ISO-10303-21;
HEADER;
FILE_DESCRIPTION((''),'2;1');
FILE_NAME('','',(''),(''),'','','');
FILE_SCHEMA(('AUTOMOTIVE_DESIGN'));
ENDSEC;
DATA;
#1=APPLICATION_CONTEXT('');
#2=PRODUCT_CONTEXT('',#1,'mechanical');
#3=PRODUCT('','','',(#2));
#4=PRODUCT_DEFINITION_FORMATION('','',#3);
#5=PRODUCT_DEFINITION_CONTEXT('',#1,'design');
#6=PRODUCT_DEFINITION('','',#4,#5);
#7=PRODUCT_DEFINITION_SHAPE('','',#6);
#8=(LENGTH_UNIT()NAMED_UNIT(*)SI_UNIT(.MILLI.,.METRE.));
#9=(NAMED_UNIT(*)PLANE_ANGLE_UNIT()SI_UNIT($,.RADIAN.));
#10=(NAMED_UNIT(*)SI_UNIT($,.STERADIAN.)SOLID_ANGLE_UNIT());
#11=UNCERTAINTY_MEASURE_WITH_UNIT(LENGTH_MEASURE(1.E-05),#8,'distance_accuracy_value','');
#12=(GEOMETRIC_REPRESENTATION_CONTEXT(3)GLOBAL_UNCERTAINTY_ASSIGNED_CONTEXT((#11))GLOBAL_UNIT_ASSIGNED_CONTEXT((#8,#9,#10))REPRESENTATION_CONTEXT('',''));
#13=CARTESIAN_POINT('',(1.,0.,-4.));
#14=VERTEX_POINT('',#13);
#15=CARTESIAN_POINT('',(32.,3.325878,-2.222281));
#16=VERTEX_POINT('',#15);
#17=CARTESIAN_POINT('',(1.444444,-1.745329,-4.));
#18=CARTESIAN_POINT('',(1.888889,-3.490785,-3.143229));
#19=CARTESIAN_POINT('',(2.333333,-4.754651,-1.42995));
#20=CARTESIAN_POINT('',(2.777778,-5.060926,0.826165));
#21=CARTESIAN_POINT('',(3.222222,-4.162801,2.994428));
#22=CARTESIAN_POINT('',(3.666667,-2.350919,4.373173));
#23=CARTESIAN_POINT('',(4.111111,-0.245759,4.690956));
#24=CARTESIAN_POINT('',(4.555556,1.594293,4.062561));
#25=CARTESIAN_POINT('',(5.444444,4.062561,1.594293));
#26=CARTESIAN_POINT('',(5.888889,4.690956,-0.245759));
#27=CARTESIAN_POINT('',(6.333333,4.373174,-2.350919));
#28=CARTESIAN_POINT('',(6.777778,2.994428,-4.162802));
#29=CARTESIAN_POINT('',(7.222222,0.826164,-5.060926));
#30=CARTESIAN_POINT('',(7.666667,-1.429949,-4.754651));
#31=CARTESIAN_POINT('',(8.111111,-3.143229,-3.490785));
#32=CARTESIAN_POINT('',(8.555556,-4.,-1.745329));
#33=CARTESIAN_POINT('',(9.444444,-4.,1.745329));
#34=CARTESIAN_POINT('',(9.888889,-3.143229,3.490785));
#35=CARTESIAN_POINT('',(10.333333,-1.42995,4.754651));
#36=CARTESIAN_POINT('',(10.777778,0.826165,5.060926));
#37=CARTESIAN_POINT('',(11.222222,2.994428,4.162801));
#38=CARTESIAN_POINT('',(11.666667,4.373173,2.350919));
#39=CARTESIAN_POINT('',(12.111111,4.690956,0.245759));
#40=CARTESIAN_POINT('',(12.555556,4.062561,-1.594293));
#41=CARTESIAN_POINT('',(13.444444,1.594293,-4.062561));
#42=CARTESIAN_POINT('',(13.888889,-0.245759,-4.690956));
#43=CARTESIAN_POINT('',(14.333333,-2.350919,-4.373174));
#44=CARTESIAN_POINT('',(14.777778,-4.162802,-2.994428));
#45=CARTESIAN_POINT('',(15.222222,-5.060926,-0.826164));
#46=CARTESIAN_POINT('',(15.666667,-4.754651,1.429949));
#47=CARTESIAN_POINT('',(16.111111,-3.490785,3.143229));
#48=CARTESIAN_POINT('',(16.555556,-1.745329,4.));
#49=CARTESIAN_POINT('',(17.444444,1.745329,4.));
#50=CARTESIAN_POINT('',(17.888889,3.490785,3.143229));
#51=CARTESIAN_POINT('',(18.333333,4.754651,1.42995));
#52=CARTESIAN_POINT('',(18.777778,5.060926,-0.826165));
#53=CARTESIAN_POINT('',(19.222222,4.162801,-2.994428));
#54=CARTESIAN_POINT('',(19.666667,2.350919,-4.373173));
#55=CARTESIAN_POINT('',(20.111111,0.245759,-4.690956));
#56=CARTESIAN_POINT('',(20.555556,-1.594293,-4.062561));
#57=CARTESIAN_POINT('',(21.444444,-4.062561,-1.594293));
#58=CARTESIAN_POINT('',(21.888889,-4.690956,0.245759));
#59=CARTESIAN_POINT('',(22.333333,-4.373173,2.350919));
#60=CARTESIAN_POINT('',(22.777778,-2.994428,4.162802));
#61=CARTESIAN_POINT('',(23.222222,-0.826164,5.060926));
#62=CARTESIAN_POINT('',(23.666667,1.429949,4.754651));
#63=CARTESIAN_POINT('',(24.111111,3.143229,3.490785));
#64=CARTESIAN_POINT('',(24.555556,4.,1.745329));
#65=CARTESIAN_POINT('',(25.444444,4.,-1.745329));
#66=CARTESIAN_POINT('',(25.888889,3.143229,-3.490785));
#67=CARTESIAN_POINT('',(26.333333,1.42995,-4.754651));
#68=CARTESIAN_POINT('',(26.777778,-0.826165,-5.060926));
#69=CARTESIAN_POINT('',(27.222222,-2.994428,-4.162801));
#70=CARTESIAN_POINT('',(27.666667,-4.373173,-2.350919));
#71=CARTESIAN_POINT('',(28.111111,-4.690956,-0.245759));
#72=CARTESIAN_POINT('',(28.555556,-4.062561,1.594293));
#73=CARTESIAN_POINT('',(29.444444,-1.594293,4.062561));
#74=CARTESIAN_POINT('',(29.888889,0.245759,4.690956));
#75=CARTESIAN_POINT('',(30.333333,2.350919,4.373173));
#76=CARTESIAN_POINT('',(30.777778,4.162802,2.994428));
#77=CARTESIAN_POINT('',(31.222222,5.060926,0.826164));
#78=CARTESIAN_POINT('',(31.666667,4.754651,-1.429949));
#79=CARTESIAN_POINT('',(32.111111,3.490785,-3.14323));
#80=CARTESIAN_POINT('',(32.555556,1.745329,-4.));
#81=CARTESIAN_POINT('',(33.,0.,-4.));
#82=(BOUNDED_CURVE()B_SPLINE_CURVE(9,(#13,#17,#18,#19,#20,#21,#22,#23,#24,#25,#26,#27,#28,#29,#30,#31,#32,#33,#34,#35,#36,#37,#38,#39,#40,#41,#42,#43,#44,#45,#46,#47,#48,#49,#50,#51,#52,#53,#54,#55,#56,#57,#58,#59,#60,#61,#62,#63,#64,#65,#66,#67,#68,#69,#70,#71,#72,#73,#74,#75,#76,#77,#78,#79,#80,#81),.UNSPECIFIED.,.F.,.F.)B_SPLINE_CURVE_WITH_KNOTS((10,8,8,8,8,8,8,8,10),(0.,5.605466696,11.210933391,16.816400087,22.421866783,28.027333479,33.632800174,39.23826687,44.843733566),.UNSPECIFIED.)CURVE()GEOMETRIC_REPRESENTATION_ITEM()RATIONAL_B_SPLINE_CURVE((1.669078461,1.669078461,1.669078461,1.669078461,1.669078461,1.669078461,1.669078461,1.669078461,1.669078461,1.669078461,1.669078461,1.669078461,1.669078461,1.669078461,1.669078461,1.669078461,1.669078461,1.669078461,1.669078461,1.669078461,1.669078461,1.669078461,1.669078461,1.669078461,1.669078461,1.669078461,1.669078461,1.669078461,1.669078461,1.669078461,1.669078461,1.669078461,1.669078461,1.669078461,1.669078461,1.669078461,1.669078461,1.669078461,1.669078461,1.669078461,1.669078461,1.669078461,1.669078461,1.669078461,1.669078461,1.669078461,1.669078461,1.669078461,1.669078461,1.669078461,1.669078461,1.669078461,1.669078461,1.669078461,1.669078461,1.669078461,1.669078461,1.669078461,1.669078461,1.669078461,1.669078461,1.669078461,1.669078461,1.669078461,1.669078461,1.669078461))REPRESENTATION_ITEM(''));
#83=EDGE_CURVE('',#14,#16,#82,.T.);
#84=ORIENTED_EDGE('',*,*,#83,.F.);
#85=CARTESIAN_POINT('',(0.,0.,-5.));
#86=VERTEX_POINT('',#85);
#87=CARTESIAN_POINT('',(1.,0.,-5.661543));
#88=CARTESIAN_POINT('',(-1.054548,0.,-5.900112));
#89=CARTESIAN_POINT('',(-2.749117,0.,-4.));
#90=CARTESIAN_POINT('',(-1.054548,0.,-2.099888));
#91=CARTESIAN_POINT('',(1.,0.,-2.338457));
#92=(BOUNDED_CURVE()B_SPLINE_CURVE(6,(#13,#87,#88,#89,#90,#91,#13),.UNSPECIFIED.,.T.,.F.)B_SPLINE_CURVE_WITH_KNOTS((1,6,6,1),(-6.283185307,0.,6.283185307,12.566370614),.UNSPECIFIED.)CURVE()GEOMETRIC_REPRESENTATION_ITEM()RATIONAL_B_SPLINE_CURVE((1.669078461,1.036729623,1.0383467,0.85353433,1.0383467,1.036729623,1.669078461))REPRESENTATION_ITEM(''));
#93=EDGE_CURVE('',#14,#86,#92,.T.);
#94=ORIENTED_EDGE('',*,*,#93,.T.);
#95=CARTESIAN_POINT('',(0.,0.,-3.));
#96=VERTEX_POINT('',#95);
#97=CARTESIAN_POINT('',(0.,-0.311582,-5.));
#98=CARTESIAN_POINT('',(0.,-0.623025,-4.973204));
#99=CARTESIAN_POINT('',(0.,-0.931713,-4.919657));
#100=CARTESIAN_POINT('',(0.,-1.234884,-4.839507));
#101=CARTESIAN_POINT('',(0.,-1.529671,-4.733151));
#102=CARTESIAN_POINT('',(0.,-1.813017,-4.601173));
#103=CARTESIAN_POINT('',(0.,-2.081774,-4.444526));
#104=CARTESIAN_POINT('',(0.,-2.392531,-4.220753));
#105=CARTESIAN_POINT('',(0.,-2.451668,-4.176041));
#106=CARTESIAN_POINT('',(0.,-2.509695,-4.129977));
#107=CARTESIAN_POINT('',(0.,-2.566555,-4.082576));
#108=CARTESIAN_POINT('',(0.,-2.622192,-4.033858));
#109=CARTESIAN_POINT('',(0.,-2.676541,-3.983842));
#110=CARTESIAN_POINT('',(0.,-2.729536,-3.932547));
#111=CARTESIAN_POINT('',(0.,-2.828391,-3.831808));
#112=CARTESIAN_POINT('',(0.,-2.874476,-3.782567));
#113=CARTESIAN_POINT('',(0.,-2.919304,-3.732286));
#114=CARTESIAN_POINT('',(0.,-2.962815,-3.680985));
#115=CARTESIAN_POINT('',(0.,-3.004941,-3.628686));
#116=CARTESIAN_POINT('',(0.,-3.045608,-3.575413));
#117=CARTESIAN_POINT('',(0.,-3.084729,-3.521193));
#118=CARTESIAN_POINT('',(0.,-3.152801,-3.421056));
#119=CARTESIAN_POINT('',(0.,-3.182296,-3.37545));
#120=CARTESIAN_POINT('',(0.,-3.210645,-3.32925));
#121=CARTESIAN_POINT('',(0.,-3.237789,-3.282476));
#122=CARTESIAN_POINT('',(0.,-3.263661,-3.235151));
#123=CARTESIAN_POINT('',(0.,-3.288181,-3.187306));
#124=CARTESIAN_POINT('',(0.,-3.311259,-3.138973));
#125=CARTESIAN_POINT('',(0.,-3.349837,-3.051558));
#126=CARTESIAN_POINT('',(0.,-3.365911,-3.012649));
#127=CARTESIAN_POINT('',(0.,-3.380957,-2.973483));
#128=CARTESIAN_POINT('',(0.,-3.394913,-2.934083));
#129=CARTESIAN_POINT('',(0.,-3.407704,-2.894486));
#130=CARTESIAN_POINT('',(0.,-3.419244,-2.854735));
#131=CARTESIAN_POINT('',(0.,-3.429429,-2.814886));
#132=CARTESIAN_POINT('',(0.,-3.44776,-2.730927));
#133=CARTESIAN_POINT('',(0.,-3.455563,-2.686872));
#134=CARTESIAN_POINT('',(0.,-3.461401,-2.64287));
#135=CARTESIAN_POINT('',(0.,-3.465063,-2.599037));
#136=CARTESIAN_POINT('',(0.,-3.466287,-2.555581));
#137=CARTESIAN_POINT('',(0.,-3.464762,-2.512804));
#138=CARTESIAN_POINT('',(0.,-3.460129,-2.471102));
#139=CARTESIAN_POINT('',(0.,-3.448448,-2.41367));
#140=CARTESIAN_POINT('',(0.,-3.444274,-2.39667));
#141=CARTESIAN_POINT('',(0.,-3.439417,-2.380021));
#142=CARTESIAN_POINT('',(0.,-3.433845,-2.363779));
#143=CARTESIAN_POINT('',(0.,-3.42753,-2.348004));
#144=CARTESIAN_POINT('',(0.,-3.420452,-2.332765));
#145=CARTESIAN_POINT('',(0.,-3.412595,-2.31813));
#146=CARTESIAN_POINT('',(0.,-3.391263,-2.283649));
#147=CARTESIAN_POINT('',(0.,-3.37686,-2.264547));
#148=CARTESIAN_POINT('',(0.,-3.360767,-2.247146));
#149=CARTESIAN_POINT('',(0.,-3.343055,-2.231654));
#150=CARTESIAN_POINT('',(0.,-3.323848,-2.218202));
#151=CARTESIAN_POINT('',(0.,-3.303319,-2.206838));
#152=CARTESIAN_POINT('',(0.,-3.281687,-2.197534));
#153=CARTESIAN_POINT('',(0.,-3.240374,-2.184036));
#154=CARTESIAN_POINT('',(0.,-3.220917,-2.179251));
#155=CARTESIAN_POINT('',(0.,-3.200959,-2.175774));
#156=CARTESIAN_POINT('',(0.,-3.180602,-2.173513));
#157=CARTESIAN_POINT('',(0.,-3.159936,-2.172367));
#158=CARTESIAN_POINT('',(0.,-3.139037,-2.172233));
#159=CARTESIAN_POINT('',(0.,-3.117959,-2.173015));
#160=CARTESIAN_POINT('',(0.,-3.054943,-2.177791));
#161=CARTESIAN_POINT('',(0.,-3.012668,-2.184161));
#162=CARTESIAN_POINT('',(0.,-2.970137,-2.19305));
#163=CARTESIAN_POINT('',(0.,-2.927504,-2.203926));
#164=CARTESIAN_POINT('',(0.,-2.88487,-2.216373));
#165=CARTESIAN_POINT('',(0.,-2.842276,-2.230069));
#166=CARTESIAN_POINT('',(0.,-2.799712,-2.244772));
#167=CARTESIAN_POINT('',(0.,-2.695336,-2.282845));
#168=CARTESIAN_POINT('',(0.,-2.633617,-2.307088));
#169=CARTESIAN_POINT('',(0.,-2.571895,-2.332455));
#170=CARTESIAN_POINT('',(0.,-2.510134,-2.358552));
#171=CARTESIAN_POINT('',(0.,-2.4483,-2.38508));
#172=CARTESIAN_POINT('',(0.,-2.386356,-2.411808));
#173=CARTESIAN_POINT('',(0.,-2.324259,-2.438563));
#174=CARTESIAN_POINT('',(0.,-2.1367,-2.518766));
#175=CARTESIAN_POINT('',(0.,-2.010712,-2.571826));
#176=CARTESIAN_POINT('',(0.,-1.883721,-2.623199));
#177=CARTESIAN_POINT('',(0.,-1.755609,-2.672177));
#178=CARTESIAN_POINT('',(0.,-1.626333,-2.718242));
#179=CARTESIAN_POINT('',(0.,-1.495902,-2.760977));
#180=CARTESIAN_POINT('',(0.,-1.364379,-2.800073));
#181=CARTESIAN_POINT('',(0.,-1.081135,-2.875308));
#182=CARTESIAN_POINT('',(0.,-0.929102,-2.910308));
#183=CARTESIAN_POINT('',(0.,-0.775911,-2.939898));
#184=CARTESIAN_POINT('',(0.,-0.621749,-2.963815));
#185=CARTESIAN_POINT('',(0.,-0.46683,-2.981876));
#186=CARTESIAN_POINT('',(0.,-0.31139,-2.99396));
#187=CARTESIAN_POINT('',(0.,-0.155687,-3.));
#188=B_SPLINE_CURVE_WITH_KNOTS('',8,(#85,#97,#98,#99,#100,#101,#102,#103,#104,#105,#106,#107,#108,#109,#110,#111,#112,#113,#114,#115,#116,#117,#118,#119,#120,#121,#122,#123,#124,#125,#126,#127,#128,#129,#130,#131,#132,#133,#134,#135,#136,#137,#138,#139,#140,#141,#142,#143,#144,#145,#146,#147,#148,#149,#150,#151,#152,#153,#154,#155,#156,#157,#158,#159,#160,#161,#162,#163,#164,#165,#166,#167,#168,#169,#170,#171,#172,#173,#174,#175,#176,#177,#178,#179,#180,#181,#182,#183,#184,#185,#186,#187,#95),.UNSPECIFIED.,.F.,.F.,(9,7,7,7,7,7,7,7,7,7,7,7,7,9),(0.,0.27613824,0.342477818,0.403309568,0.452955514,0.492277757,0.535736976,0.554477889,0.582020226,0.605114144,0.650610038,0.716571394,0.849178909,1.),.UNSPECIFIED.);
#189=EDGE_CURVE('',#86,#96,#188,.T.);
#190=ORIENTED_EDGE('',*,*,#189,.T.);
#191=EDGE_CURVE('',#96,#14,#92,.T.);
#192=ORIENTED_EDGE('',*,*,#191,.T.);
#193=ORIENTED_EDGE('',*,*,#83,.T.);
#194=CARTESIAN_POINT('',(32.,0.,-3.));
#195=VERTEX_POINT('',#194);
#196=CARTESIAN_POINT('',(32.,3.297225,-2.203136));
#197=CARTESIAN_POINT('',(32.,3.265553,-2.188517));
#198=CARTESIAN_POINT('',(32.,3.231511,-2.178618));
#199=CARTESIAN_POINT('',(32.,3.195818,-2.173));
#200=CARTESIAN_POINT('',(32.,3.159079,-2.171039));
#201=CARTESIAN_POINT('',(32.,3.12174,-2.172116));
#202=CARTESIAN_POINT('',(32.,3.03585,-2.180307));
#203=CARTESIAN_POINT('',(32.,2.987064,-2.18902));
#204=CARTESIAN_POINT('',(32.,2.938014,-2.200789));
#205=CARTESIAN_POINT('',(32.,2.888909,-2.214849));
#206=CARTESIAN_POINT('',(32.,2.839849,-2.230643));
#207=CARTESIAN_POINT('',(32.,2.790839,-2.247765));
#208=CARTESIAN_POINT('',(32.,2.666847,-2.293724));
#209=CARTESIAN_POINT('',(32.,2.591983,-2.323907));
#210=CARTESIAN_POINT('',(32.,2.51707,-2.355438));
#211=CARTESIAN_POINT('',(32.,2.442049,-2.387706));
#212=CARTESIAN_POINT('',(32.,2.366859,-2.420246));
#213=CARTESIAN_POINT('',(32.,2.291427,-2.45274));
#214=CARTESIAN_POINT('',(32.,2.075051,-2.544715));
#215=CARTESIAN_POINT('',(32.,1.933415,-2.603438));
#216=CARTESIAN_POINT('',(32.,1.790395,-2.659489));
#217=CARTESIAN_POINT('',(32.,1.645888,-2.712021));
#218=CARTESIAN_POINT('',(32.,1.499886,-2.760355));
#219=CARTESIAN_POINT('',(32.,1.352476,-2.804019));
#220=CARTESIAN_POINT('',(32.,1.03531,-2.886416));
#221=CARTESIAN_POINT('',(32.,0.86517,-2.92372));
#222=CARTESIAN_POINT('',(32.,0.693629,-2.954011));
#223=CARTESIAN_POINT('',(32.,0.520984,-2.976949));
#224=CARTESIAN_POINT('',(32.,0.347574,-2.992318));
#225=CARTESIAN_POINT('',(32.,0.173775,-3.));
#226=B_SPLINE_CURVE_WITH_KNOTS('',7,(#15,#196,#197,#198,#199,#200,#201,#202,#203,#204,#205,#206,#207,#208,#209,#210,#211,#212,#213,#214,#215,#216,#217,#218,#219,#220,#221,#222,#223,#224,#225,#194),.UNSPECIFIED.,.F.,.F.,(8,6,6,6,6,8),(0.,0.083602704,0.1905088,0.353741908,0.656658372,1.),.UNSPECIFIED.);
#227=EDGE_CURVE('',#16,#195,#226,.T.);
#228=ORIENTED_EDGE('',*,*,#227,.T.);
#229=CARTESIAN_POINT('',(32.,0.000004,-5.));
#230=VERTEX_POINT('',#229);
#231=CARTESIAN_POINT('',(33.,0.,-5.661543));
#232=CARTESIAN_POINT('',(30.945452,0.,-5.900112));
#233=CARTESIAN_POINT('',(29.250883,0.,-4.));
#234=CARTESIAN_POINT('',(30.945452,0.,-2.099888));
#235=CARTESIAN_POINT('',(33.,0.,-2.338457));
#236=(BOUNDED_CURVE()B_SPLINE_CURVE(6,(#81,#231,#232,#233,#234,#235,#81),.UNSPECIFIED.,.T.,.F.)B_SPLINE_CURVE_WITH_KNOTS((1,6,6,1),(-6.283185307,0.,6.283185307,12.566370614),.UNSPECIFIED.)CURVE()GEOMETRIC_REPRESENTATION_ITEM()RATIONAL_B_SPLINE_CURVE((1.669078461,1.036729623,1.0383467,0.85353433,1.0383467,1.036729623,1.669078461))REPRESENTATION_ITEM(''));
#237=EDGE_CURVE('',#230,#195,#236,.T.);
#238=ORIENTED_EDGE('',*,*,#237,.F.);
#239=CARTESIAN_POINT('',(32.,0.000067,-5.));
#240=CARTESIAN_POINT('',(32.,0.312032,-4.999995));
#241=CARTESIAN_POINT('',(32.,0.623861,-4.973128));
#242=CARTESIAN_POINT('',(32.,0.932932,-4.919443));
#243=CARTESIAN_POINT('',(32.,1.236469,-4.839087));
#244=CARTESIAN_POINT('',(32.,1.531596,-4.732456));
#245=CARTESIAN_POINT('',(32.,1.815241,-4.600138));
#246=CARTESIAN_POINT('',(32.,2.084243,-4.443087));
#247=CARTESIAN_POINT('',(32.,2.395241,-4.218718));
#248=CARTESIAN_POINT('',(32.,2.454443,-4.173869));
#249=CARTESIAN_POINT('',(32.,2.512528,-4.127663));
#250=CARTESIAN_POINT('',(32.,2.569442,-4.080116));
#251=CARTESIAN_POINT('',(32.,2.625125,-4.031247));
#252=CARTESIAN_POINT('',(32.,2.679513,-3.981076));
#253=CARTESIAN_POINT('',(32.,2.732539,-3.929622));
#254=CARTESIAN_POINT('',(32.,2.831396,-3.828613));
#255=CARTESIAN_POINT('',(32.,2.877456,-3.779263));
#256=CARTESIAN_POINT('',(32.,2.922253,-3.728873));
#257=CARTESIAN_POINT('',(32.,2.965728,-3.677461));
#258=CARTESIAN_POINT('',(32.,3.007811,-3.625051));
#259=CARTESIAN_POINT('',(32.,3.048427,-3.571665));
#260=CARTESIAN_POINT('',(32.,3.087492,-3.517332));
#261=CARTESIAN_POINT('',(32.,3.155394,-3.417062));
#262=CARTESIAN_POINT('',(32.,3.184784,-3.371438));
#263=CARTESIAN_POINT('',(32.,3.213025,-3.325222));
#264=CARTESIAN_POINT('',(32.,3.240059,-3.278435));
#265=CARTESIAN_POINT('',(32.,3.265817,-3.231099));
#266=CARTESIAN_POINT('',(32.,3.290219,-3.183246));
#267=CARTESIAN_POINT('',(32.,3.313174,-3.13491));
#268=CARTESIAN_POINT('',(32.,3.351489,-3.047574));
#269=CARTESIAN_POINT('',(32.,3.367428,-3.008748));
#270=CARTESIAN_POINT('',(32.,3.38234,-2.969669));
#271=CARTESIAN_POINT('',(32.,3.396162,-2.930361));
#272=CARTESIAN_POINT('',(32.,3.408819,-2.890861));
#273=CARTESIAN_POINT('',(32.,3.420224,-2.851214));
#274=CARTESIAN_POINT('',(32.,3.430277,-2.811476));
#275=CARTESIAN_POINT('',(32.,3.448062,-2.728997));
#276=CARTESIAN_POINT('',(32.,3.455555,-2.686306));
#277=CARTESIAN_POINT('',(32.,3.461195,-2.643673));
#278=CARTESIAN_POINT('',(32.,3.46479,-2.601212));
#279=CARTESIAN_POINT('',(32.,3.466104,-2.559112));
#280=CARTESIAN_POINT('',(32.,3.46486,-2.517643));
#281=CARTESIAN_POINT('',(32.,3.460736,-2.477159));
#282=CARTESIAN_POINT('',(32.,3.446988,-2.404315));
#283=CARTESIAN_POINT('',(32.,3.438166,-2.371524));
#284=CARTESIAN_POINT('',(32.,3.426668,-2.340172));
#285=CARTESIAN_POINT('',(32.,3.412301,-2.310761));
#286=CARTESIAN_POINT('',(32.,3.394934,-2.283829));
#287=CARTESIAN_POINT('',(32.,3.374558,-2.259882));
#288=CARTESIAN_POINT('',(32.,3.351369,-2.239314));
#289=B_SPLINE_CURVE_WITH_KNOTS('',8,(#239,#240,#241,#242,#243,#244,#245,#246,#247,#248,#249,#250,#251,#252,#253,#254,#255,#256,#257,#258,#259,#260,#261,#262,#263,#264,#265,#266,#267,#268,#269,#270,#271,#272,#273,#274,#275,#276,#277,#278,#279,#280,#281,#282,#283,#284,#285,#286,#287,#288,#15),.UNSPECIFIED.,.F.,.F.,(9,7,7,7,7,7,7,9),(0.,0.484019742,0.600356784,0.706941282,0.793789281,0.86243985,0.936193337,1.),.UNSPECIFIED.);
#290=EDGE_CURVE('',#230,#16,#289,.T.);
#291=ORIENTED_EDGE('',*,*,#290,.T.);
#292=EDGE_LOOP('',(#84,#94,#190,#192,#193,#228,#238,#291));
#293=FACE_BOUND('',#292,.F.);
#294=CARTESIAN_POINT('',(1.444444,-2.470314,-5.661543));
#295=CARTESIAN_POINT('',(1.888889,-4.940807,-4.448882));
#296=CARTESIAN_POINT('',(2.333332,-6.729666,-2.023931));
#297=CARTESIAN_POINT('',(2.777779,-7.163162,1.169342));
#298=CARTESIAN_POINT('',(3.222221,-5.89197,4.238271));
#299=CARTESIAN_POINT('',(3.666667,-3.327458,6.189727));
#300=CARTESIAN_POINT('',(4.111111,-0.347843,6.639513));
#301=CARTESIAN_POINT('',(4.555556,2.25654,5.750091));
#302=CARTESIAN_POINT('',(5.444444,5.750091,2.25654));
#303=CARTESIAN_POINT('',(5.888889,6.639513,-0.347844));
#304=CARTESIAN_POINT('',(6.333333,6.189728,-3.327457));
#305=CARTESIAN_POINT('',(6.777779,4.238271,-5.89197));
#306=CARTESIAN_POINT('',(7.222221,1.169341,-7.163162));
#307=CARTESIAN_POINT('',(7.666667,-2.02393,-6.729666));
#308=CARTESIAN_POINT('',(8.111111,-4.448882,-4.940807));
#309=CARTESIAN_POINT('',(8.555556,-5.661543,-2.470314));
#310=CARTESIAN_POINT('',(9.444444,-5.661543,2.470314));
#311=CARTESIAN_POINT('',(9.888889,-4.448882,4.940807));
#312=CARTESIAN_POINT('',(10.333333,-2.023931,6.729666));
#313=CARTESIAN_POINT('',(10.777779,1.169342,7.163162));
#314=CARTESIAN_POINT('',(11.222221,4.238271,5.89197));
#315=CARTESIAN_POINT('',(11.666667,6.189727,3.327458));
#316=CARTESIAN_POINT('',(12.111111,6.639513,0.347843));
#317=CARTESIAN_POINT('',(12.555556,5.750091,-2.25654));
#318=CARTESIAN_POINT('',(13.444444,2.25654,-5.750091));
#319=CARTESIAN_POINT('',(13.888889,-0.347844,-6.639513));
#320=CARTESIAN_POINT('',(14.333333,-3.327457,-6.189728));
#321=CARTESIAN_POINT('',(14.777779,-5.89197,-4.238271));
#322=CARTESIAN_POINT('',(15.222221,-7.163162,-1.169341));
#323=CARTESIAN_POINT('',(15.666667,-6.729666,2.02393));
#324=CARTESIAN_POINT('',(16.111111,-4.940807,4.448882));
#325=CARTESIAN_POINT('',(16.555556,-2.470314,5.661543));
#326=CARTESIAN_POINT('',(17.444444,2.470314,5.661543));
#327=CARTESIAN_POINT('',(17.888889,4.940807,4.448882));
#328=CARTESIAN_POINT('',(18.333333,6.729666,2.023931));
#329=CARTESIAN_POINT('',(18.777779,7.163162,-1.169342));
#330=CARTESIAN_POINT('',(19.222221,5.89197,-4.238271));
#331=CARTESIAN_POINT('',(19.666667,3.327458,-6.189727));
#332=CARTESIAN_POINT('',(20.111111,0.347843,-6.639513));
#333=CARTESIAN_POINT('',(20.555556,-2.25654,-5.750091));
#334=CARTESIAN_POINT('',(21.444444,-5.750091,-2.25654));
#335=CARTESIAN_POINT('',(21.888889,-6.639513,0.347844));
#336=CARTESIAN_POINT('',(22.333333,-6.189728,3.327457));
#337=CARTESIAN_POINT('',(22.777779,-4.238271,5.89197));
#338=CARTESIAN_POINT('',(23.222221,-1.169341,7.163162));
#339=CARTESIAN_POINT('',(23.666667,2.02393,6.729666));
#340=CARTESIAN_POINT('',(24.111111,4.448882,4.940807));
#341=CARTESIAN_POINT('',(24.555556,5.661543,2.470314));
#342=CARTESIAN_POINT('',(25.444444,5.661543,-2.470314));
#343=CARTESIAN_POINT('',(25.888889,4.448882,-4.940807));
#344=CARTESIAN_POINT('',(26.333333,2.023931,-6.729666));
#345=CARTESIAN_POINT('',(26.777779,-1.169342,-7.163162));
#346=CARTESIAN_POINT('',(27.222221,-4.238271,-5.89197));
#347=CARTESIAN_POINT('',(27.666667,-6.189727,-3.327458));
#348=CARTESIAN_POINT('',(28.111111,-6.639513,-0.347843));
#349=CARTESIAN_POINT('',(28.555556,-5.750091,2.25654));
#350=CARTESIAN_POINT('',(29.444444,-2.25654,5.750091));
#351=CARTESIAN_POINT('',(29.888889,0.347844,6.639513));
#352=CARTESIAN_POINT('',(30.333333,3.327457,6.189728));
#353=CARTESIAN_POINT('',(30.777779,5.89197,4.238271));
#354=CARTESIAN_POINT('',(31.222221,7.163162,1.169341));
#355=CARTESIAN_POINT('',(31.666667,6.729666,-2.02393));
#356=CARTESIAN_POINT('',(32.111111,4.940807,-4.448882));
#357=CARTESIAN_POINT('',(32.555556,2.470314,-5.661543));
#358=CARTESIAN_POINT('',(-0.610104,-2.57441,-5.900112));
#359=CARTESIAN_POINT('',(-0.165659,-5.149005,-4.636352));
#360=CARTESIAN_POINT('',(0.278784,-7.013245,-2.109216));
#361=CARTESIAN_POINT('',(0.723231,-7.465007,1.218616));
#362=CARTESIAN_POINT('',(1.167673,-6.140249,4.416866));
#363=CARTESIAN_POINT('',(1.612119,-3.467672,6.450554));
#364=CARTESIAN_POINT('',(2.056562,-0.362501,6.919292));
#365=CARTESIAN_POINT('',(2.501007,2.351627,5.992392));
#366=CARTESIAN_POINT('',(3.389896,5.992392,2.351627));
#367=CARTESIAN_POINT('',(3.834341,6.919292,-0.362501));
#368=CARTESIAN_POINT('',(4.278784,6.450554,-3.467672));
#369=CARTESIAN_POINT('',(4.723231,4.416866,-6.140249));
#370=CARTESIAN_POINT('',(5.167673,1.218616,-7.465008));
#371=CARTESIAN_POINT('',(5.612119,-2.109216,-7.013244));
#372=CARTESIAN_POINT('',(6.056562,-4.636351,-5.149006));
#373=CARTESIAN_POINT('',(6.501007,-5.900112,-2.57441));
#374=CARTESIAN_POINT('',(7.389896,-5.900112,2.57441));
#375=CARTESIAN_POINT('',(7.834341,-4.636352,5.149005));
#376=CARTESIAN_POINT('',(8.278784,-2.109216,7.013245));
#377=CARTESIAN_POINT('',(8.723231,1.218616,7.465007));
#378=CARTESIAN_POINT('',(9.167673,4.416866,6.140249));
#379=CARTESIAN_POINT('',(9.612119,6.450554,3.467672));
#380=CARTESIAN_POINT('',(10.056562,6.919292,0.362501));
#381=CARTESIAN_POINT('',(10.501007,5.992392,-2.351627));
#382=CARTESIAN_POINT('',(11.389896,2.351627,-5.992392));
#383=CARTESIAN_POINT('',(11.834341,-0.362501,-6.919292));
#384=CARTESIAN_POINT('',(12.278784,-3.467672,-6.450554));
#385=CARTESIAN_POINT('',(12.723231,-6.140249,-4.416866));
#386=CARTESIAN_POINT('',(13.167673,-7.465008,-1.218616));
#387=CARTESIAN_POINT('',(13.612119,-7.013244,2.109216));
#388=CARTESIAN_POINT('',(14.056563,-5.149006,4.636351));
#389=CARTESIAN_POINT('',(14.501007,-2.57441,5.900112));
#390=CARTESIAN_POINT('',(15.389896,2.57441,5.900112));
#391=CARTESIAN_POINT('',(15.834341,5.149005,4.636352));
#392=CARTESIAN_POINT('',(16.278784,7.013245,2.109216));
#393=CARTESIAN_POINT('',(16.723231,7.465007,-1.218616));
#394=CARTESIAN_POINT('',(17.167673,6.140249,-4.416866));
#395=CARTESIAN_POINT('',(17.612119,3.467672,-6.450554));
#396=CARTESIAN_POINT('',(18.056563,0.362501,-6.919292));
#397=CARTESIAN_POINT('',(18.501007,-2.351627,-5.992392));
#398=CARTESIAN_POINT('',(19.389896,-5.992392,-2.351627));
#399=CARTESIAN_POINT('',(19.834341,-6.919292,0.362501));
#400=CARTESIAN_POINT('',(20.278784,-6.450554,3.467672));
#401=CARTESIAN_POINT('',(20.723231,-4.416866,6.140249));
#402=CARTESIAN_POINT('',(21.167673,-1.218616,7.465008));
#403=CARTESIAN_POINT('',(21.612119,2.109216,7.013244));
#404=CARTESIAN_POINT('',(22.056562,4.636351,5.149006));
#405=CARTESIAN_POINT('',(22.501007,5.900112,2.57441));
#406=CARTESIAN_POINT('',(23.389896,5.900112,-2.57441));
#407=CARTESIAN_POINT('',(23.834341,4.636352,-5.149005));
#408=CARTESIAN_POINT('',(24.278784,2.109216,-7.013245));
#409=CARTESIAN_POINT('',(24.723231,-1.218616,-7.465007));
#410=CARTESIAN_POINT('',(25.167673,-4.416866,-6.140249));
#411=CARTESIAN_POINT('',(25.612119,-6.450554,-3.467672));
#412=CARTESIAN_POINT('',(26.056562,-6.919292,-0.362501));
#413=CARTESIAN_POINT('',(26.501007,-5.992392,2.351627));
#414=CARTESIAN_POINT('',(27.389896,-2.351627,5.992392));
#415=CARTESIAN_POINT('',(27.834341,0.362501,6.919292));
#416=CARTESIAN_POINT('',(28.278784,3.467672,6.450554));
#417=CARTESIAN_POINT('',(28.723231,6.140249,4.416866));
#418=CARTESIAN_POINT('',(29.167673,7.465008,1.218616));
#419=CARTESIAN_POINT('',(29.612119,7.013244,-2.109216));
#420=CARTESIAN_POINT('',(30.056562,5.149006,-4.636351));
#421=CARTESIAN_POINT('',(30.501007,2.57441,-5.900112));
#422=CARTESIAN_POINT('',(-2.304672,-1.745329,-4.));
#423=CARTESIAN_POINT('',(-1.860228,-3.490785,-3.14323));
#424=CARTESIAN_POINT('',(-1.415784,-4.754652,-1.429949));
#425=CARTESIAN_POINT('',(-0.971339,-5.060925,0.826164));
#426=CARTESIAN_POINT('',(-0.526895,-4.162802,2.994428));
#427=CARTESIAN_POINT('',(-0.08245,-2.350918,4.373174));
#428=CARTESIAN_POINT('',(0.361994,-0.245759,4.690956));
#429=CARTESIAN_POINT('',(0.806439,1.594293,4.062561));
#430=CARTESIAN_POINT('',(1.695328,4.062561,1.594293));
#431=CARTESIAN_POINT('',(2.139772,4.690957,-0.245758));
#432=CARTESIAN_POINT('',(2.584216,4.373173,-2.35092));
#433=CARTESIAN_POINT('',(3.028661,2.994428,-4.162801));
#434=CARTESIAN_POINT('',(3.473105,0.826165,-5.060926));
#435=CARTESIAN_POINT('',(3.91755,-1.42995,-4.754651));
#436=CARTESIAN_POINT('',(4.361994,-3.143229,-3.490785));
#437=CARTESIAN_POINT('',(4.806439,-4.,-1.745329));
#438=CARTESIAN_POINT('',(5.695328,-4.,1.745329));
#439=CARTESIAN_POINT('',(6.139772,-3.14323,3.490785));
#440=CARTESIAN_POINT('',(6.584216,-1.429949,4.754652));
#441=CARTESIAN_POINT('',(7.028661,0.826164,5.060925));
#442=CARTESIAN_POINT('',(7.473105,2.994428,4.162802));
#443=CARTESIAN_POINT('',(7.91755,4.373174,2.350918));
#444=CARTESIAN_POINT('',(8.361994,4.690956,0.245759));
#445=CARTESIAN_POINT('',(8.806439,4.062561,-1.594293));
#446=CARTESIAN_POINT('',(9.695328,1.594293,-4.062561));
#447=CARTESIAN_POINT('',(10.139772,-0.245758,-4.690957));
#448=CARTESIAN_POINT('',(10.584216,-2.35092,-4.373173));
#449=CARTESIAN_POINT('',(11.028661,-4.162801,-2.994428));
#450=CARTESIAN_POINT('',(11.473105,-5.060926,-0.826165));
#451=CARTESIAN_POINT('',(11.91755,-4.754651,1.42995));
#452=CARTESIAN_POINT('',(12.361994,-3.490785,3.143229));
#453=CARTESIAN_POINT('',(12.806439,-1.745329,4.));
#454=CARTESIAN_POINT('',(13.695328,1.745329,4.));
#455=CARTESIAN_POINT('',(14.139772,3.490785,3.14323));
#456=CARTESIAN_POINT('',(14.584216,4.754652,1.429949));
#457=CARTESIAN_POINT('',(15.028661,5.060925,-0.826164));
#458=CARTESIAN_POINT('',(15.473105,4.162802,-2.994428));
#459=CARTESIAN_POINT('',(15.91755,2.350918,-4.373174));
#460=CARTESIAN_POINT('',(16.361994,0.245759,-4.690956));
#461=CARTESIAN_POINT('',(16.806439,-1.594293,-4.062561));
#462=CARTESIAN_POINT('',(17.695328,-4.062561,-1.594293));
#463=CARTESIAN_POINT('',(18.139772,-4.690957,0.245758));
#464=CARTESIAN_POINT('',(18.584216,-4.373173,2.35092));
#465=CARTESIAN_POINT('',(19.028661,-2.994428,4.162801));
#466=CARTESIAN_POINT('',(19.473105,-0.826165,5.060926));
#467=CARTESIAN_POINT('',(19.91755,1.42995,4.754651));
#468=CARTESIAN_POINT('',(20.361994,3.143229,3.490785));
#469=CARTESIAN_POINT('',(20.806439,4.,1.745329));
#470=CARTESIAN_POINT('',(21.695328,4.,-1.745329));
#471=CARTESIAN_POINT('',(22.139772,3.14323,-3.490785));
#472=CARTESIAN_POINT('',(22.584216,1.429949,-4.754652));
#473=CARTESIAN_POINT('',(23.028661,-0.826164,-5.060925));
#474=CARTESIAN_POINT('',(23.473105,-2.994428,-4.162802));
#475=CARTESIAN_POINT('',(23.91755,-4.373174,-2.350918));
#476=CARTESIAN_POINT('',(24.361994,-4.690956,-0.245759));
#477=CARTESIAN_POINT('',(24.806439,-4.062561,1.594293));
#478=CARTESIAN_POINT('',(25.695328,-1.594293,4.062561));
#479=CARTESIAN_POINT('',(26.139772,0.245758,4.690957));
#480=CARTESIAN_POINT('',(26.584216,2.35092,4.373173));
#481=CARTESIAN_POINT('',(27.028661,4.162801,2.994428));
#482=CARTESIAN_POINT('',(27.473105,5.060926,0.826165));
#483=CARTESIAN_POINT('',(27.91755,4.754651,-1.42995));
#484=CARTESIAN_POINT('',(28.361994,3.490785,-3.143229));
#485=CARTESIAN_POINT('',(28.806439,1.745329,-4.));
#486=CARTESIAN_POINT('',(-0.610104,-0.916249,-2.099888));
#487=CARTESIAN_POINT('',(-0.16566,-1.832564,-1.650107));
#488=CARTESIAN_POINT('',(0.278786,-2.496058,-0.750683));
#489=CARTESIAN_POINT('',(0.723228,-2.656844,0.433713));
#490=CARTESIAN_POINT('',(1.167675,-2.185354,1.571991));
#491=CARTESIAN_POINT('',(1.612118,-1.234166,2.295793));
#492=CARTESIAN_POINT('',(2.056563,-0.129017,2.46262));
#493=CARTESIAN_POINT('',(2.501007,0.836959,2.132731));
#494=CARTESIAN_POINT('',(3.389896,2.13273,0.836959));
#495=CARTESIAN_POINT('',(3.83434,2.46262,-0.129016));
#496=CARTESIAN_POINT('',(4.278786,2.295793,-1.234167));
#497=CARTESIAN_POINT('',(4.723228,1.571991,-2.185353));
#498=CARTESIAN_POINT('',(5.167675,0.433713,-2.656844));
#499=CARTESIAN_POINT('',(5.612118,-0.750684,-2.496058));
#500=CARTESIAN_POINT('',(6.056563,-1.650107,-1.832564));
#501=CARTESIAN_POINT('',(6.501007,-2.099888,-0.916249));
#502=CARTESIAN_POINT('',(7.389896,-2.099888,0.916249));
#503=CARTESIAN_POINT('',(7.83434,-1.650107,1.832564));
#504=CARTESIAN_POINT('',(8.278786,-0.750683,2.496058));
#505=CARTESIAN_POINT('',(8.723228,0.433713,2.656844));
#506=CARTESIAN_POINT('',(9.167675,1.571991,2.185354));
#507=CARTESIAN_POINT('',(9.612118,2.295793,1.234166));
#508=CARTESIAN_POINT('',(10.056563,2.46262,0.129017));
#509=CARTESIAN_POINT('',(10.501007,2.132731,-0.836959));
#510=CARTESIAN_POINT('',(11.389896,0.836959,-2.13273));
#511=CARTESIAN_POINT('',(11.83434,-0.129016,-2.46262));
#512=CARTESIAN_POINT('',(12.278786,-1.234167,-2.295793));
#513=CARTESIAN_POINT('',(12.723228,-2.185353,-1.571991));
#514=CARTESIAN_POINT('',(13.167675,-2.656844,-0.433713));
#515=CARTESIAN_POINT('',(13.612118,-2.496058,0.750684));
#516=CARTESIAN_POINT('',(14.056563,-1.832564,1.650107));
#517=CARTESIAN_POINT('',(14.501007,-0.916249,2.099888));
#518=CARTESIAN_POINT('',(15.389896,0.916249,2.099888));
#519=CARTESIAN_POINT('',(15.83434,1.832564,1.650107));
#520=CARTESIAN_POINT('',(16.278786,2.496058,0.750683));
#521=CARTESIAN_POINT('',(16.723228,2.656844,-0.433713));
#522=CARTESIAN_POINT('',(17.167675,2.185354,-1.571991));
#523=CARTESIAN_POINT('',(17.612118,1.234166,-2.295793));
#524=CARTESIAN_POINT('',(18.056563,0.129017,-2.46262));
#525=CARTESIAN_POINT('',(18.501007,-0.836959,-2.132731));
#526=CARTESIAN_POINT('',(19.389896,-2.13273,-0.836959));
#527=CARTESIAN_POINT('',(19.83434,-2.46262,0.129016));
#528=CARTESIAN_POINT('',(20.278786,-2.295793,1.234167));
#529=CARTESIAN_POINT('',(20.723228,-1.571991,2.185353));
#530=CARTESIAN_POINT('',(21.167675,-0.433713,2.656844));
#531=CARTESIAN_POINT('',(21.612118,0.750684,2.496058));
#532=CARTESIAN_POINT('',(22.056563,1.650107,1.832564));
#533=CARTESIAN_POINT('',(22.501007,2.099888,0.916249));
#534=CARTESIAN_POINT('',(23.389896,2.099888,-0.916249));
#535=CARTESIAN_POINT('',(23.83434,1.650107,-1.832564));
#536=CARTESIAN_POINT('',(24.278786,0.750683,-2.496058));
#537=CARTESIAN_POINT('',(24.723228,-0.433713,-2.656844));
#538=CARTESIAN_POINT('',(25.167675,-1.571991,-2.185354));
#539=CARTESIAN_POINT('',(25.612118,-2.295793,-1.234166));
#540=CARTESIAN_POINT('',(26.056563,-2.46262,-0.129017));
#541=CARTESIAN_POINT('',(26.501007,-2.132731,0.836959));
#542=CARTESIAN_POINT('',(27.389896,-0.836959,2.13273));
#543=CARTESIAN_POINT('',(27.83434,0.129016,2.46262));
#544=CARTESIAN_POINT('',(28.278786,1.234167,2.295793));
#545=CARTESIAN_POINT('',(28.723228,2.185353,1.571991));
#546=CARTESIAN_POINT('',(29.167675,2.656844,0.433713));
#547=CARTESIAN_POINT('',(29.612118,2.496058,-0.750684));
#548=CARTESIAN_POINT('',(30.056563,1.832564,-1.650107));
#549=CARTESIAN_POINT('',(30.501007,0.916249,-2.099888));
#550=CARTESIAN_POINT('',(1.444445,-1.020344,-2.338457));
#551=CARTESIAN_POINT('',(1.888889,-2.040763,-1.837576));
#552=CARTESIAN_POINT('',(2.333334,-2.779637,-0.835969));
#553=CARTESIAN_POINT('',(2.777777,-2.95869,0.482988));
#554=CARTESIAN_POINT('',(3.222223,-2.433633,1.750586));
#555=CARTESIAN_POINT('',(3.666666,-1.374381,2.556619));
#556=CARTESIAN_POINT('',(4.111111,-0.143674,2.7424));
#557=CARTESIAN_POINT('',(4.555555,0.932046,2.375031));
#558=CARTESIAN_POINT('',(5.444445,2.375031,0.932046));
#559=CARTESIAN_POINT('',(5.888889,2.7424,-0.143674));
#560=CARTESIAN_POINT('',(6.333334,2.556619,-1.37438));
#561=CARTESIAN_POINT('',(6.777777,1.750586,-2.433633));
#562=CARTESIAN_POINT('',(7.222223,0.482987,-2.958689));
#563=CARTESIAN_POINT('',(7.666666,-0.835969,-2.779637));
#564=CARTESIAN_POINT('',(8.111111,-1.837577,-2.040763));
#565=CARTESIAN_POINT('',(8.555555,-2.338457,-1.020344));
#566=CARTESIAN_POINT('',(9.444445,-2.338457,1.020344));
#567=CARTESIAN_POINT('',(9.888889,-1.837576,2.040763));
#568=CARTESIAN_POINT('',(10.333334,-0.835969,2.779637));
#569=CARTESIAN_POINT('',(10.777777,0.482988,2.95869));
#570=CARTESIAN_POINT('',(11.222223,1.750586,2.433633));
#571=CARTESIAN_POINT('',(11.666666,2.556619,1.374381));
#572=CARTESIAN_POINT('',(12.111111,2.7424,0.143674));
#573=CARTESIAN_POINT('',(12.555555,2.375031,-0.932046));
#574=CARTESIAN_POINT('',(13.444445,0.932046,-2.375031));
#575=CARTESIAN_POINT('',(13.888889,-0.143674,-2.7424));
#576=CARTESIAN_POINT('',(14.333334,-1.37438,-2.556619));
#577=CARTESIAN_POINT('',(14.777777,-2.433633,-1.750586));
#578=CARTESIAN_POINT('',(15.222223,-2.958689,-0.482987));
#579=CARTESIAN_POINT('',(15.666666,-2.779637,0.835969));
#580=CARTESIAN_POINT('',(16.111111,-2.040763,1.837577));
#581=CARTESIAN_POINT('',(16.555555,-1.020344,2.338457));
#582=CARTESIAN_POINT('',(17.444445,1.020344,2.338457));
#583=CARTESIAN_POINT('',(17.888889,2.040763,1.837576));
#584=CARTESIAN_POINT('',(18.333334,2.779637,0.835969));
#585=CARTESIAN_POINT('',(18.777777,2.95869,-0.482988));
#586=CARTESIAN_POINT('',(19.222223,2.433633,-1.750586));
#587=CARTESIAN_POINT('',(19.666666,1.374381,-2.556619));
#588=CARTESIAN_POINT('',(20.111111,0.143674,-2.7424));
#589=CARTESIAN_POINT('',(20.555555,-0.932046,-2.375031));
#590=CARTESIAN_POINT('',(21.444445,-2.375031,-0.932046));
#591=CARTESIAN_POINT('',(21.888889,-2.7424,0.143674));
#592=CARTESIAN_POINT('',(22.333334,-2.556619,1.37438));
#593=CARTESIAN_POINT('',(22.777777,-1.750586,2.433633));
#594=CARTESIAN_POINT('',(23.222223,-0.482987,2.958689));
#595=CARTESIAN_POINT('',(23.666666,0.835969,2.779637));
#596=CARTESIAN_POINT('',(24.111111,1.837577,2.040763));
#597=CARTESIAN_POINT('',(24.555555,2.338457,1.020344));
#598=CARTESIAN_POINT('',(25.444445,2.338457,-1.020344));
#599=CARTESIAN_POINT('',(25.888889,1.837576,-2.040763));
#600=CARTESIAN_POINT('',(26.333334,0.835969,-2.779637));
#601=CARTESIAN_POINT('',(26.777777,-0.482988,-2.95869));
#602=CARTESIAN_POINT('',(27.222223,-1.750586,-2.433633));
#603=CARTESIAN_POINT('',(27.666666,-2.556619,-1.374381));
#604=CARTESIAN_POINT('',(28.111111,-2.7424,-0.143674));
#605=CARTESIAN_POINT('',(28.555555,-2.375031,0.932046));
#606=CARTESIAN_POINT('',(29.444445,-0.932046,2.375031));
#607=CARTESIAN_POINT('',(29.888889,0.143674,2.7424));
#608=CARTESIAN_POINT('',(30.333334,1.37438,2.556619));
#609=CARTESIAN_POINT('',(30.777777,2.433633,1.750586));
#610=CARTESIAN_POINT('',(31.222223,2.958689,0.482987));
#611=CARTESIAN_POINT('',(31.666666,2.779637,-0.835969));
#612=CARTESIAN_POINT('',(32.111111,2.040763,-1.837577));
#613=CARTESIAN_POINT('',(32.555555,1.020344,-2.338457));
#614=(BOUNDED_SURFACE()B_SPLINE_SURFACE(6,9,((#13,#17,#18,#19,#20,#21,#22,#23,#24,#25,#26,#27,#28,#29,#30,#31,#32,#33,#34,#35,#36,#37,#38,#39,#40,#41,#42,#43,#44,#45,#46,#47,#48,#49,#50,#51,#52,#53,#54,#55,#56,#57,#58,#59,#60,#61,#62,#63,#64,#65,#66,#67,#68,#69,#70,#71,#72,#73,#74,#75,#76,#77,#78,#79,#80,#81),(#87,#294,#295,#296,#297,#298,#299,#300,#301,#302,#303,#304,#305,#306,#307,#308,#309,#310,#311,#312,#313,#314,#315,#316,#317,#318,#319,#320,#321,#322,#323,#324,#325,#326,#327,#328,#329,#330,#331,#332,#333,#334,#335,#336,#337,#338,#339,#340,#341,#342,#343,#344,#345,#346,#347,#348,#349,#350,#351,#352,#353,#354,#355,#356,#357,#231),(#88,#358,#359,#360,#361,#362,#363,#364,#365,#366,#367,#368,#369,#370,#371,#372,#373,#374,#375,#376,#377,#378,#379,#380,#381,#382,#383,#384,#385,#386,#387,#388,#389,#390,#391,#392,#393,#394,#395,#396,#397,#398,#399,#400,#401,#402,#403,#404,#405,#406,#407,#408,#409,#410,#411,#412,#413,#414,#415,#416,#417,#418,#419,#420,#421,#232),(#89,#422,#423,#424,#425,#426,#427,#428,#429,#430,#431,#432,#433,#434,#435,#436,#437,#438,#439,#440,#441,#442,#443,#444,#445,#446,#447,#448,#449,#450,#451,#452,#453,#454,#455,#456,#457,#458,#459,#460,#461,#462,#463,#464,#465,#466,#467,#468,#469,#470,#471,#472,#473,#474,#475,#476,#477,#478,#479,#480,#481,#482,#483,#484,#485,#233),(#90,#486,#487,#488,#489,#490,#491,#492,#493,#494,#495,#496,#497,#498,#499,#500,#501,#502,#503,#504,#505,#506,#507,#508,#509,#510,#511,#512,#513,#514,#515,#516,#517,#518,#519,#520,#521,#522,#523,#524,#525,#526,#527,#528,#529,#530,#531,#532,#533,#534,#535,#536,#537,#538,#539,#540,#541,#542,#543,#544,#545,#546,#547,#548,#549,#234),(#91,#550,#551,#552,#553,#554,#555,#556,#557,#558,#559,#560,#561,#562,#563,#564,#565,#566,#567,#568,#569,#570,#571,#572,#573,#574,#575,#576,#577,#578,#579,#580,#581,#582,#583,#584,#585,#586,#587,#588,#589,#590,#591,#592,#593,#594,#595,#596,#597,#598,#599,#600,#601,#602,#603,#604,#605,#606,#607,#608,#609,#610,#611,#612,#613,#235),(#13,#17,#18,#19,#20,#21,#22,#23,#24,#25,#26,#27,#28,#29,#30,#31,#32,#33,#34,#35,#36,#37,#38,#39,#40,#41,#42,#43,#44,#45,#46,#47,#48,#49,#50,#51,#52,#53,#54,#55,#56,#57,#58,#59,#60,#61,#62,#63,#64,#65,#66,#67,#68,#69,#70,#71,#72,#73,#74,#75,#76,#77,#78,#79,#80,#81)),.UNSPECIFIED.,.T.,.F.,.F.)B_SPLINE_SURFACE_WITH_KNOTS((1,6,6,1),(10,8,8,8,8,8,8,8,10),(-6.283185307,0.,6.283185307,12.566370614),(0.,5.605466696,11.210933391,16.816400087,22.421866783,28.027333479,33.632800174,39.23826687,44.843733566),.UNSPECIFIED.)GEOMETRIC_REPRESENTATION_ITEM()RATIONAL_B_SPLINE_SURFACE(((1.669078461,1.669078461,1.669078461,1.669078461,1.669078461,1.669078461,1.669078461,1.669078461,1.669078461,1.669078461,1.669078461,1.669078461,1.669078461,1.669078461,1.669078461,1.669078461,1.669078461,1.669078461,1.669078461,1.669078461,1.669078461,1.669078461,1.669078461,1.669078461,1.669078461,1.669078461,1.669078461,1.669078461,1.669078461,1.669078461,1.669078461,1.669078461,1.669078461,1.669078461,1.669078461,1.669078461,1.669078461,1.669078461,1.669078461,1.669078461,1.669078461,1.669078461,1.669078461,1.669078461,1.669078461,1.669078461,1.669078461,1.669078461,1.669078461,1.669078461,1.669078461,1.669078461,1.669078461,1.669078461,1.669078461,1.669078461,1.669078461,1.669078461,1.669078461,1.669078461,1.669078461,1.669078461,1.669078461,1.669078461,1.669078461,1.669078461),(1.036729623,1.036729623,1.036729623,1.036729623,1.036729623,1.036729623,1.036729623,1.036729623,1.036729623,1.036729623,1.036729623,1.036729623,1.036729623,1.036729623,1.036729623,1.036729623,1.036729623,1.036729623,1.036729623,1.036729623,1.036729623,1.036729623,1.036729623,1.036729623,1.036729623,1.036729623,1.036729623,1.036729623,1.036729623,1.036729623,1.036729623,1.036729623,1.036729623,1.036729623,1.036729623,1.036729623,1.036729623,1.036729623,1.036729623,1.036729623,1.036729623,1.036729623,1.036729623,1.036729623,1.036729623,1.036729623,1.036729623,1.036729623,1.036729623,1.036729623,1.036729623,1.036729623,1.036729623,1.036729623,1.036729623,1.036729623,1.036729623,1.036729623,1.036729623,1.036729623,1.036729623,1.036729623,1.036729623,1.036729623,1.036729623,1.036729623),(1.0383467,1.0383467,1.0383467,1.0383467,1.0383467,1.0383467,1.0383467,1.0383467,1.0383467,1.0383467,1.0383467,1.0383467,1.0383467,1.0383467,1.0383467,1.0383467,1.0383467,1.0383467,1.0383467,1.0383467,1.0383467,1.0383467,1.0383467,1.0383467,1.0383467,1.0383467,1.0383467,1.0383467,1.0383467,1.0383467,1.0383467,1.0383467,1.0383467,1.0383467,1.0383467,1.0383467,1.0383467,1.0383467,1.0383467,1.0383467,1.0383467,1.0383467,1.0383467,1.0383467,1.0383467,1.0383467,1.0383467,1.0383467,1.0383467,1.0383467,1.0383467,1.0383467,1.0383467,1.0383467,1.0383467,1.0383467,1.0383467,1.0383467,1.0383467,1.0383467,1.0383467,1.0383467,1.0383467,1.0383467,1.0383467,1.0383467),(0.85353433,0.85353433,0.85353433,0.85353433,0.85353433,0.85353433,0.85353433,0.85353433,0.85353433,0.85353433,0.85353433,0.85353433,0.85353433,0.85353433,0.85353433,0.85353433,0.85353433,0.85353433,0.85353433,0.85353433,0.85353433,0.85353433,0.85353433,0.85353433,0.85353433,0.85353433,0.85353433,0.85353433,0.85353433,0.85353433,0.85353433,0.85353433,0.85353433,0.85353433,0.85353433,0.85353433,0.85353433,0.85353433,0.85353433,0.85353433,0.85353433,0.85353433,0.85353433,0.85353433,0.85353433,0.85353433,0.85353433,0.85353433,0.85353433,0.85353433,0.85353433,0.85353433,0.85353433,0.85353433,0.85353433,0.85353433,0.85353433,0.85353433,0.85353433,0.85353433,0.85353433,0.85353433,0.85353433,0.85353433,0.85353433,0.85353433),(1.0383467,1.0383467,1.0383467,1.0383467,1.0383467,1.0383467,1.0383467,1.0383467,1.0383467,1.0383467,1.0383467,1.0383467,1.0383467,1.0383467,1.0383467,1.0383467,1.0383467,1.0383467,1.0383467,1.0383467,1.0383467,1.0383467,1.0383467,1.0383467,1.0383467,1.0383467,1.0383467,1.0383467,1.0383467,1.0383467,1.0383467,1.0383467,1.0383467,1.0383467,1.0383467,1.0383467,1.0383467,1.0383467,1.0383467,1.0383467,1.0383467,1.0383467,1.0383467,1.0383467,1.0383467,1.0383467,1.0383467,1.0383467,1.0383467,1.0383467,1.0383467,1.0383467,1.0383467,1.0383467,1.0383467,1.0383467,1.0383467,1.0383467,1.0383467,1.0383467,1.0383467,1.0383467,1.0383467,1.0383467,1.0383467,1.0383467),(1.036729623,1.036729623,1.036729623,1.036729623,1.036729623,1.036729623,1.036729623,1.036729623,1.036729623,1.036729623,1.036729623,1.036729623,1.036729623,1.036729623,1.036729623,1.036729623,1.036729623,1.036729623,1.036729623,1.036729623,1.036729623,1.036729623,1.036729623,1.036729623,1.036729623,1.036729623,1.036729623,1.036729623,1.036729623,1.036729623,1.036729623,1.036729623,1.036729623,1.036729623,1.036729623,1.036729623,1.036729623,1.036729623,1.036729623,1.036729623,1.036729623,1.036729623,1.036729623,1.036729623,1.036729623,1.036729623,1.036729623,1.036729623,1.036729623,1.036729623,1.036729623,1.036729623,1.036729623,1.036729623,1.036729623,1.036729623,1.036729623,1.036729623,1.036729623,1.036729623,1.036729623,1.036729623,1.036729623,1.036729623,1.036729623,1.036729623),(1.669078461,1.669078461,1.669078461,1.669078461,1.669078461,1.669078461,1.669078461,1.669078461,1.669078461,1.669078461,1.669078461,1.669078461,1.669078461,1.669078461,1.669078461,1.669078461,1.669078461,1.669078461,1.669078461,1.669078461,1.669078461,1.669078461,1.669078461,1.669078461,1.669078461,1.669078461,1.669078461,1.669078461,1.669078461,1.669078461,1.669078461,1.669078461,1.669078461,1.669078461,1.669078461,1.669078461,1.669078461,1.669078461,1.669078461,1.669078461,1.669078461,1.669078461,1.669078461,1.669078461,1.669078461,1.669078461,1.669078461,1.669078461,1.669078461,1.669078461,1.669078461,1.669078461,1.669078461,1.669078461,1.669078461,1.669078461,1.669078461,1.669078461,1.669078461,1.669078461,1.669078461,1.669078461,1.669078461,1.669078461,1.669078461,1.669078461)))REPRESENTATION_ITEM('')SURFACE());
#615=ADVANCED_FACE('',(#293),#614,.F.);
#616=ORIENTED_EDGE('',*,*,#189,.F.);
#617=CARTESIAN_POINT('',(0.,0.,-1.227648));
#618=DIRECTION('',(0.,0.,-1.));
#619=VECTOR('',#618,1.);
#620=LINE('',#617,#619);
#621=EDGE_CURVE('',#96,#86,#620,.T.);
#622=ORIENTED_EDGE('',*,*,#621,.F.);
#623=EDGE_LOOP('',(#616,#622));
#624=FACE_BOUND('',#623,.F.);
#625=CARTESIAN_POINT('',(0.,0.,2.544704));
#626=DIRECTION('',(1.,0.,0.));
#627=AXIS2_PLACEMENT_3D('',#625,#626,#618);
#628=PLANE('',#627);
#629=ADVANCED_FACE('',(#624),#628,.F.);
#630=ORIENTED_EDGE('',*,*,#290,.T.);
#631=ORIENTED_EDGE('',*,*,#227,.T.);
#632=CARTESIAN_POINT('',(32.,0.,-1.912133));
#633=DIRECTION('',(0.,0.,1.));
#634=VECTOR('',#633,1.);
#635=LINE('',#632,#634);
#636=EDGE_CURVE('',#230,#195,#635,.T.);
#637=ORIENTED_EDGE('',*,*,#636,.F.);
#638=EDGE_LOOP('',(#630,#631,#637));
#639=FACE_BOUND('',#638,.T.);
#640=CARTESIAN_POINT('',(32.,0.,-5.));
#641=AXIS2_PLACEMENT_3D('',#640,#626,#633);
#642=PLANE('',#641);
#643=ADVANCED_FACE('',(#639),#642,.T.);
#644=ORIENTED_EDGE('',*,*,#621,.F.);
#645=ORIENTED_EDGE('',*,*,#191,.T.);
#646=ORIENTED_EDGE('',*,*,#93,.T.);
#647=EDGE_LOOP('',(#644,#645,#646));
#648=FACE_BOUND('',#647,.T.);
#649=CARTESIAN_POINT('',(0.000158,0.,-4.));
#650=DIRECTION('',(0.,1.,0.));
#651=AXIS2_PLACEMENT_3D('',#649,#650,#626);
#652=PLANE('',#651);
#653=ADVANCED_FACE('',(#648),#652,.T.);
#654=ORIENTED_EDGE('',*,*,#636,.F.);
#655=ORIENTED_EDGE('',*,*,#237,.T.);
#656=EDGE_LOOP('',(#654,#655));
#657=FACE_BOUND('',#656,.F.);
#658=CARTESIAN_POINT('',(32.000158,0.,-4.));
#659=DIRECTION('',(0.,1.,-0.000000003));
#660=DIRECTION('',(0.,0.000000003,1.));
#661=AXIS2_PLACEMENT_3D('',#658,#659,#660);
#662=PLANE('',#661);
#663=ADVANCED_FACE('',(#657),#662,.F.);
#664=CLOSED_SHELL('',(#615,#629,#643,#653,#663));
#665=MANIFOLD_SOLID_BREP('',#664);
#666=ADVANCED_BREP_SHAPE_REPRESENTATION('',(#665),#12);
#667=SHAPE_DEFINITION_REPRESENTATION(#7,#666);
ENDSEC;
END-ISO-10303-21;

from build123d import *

# Parameters (mm, degrees)
SWEEP1_PITCH       = 6.4
SWEEP1_HEIGHT      = 32
SWEEP1_RADIUS      = 4
SWEEP1_START_ANGLE = 180
SKETCH4_R          = 1
SKETCH5_W          = 3.263183708
SKETCH5_H          = 7.544703556
CUT_EXTRUDE1_DEPTH = 10
SKETCH6_W          = 3.173798801
SKETCH6_H          = 6.175734461
CUT_EXTRUDE2_DEPTH = 10


with BuildPart() as part:
    # Sweep1: sweep along a helix
    with BuildLine() as sweep1_path:
        add(Helix(SWEEP1_PITCH, SWEEP1_HEIGHT, SWEEP1_RADIUS, center=(0, 0, 0), direction=(1, 0, 0), lefthand=True, mode=Mode.PRIVATE).rotate(Axis((0, 0, 0), (1, 0, 0)), SWEEP1_START_ANGLE))
    # Sketch4 → Sweep1 (sweep)
    with BuildSketch(Plane(origin=(0, 0, 0), x_dir=(1, 0, 0), z_dir=(0, 1, 0))):
        with Locations((0, 4)):
            Circle(SKETCH4_R)
    sweep(path=sweep1_path.line, is_frenet=True)

    # Sketch5 → Cut-Extrude1 (cut)
    with BuildSketch(Plane(origin=(0, 0, 0), x_dir=(1, 0, 0), z_dir=(0, 1, 0))):
        with Locations((-1.631591854, 1.227648222)):
            Rectangle(SKETCH5_W, SKETCH5_H)
    extrude(amount=-CUT_EXTRUDE1_DEPTH, mode=Mode.SUBTRACT)

    # Sketch6 → Cut-Extrude2 (cut)
    with BuildSketch(Plane.XZ):
        with Locations((33.586899401, -1.912132769)):
            Rectangle(SKETCH6_W, SKETCH6_H)
    extrude(amount=-CUT_EXTRUDE2_DEPTH, mode=Mode.SUBTRACT)


solid = part.part
